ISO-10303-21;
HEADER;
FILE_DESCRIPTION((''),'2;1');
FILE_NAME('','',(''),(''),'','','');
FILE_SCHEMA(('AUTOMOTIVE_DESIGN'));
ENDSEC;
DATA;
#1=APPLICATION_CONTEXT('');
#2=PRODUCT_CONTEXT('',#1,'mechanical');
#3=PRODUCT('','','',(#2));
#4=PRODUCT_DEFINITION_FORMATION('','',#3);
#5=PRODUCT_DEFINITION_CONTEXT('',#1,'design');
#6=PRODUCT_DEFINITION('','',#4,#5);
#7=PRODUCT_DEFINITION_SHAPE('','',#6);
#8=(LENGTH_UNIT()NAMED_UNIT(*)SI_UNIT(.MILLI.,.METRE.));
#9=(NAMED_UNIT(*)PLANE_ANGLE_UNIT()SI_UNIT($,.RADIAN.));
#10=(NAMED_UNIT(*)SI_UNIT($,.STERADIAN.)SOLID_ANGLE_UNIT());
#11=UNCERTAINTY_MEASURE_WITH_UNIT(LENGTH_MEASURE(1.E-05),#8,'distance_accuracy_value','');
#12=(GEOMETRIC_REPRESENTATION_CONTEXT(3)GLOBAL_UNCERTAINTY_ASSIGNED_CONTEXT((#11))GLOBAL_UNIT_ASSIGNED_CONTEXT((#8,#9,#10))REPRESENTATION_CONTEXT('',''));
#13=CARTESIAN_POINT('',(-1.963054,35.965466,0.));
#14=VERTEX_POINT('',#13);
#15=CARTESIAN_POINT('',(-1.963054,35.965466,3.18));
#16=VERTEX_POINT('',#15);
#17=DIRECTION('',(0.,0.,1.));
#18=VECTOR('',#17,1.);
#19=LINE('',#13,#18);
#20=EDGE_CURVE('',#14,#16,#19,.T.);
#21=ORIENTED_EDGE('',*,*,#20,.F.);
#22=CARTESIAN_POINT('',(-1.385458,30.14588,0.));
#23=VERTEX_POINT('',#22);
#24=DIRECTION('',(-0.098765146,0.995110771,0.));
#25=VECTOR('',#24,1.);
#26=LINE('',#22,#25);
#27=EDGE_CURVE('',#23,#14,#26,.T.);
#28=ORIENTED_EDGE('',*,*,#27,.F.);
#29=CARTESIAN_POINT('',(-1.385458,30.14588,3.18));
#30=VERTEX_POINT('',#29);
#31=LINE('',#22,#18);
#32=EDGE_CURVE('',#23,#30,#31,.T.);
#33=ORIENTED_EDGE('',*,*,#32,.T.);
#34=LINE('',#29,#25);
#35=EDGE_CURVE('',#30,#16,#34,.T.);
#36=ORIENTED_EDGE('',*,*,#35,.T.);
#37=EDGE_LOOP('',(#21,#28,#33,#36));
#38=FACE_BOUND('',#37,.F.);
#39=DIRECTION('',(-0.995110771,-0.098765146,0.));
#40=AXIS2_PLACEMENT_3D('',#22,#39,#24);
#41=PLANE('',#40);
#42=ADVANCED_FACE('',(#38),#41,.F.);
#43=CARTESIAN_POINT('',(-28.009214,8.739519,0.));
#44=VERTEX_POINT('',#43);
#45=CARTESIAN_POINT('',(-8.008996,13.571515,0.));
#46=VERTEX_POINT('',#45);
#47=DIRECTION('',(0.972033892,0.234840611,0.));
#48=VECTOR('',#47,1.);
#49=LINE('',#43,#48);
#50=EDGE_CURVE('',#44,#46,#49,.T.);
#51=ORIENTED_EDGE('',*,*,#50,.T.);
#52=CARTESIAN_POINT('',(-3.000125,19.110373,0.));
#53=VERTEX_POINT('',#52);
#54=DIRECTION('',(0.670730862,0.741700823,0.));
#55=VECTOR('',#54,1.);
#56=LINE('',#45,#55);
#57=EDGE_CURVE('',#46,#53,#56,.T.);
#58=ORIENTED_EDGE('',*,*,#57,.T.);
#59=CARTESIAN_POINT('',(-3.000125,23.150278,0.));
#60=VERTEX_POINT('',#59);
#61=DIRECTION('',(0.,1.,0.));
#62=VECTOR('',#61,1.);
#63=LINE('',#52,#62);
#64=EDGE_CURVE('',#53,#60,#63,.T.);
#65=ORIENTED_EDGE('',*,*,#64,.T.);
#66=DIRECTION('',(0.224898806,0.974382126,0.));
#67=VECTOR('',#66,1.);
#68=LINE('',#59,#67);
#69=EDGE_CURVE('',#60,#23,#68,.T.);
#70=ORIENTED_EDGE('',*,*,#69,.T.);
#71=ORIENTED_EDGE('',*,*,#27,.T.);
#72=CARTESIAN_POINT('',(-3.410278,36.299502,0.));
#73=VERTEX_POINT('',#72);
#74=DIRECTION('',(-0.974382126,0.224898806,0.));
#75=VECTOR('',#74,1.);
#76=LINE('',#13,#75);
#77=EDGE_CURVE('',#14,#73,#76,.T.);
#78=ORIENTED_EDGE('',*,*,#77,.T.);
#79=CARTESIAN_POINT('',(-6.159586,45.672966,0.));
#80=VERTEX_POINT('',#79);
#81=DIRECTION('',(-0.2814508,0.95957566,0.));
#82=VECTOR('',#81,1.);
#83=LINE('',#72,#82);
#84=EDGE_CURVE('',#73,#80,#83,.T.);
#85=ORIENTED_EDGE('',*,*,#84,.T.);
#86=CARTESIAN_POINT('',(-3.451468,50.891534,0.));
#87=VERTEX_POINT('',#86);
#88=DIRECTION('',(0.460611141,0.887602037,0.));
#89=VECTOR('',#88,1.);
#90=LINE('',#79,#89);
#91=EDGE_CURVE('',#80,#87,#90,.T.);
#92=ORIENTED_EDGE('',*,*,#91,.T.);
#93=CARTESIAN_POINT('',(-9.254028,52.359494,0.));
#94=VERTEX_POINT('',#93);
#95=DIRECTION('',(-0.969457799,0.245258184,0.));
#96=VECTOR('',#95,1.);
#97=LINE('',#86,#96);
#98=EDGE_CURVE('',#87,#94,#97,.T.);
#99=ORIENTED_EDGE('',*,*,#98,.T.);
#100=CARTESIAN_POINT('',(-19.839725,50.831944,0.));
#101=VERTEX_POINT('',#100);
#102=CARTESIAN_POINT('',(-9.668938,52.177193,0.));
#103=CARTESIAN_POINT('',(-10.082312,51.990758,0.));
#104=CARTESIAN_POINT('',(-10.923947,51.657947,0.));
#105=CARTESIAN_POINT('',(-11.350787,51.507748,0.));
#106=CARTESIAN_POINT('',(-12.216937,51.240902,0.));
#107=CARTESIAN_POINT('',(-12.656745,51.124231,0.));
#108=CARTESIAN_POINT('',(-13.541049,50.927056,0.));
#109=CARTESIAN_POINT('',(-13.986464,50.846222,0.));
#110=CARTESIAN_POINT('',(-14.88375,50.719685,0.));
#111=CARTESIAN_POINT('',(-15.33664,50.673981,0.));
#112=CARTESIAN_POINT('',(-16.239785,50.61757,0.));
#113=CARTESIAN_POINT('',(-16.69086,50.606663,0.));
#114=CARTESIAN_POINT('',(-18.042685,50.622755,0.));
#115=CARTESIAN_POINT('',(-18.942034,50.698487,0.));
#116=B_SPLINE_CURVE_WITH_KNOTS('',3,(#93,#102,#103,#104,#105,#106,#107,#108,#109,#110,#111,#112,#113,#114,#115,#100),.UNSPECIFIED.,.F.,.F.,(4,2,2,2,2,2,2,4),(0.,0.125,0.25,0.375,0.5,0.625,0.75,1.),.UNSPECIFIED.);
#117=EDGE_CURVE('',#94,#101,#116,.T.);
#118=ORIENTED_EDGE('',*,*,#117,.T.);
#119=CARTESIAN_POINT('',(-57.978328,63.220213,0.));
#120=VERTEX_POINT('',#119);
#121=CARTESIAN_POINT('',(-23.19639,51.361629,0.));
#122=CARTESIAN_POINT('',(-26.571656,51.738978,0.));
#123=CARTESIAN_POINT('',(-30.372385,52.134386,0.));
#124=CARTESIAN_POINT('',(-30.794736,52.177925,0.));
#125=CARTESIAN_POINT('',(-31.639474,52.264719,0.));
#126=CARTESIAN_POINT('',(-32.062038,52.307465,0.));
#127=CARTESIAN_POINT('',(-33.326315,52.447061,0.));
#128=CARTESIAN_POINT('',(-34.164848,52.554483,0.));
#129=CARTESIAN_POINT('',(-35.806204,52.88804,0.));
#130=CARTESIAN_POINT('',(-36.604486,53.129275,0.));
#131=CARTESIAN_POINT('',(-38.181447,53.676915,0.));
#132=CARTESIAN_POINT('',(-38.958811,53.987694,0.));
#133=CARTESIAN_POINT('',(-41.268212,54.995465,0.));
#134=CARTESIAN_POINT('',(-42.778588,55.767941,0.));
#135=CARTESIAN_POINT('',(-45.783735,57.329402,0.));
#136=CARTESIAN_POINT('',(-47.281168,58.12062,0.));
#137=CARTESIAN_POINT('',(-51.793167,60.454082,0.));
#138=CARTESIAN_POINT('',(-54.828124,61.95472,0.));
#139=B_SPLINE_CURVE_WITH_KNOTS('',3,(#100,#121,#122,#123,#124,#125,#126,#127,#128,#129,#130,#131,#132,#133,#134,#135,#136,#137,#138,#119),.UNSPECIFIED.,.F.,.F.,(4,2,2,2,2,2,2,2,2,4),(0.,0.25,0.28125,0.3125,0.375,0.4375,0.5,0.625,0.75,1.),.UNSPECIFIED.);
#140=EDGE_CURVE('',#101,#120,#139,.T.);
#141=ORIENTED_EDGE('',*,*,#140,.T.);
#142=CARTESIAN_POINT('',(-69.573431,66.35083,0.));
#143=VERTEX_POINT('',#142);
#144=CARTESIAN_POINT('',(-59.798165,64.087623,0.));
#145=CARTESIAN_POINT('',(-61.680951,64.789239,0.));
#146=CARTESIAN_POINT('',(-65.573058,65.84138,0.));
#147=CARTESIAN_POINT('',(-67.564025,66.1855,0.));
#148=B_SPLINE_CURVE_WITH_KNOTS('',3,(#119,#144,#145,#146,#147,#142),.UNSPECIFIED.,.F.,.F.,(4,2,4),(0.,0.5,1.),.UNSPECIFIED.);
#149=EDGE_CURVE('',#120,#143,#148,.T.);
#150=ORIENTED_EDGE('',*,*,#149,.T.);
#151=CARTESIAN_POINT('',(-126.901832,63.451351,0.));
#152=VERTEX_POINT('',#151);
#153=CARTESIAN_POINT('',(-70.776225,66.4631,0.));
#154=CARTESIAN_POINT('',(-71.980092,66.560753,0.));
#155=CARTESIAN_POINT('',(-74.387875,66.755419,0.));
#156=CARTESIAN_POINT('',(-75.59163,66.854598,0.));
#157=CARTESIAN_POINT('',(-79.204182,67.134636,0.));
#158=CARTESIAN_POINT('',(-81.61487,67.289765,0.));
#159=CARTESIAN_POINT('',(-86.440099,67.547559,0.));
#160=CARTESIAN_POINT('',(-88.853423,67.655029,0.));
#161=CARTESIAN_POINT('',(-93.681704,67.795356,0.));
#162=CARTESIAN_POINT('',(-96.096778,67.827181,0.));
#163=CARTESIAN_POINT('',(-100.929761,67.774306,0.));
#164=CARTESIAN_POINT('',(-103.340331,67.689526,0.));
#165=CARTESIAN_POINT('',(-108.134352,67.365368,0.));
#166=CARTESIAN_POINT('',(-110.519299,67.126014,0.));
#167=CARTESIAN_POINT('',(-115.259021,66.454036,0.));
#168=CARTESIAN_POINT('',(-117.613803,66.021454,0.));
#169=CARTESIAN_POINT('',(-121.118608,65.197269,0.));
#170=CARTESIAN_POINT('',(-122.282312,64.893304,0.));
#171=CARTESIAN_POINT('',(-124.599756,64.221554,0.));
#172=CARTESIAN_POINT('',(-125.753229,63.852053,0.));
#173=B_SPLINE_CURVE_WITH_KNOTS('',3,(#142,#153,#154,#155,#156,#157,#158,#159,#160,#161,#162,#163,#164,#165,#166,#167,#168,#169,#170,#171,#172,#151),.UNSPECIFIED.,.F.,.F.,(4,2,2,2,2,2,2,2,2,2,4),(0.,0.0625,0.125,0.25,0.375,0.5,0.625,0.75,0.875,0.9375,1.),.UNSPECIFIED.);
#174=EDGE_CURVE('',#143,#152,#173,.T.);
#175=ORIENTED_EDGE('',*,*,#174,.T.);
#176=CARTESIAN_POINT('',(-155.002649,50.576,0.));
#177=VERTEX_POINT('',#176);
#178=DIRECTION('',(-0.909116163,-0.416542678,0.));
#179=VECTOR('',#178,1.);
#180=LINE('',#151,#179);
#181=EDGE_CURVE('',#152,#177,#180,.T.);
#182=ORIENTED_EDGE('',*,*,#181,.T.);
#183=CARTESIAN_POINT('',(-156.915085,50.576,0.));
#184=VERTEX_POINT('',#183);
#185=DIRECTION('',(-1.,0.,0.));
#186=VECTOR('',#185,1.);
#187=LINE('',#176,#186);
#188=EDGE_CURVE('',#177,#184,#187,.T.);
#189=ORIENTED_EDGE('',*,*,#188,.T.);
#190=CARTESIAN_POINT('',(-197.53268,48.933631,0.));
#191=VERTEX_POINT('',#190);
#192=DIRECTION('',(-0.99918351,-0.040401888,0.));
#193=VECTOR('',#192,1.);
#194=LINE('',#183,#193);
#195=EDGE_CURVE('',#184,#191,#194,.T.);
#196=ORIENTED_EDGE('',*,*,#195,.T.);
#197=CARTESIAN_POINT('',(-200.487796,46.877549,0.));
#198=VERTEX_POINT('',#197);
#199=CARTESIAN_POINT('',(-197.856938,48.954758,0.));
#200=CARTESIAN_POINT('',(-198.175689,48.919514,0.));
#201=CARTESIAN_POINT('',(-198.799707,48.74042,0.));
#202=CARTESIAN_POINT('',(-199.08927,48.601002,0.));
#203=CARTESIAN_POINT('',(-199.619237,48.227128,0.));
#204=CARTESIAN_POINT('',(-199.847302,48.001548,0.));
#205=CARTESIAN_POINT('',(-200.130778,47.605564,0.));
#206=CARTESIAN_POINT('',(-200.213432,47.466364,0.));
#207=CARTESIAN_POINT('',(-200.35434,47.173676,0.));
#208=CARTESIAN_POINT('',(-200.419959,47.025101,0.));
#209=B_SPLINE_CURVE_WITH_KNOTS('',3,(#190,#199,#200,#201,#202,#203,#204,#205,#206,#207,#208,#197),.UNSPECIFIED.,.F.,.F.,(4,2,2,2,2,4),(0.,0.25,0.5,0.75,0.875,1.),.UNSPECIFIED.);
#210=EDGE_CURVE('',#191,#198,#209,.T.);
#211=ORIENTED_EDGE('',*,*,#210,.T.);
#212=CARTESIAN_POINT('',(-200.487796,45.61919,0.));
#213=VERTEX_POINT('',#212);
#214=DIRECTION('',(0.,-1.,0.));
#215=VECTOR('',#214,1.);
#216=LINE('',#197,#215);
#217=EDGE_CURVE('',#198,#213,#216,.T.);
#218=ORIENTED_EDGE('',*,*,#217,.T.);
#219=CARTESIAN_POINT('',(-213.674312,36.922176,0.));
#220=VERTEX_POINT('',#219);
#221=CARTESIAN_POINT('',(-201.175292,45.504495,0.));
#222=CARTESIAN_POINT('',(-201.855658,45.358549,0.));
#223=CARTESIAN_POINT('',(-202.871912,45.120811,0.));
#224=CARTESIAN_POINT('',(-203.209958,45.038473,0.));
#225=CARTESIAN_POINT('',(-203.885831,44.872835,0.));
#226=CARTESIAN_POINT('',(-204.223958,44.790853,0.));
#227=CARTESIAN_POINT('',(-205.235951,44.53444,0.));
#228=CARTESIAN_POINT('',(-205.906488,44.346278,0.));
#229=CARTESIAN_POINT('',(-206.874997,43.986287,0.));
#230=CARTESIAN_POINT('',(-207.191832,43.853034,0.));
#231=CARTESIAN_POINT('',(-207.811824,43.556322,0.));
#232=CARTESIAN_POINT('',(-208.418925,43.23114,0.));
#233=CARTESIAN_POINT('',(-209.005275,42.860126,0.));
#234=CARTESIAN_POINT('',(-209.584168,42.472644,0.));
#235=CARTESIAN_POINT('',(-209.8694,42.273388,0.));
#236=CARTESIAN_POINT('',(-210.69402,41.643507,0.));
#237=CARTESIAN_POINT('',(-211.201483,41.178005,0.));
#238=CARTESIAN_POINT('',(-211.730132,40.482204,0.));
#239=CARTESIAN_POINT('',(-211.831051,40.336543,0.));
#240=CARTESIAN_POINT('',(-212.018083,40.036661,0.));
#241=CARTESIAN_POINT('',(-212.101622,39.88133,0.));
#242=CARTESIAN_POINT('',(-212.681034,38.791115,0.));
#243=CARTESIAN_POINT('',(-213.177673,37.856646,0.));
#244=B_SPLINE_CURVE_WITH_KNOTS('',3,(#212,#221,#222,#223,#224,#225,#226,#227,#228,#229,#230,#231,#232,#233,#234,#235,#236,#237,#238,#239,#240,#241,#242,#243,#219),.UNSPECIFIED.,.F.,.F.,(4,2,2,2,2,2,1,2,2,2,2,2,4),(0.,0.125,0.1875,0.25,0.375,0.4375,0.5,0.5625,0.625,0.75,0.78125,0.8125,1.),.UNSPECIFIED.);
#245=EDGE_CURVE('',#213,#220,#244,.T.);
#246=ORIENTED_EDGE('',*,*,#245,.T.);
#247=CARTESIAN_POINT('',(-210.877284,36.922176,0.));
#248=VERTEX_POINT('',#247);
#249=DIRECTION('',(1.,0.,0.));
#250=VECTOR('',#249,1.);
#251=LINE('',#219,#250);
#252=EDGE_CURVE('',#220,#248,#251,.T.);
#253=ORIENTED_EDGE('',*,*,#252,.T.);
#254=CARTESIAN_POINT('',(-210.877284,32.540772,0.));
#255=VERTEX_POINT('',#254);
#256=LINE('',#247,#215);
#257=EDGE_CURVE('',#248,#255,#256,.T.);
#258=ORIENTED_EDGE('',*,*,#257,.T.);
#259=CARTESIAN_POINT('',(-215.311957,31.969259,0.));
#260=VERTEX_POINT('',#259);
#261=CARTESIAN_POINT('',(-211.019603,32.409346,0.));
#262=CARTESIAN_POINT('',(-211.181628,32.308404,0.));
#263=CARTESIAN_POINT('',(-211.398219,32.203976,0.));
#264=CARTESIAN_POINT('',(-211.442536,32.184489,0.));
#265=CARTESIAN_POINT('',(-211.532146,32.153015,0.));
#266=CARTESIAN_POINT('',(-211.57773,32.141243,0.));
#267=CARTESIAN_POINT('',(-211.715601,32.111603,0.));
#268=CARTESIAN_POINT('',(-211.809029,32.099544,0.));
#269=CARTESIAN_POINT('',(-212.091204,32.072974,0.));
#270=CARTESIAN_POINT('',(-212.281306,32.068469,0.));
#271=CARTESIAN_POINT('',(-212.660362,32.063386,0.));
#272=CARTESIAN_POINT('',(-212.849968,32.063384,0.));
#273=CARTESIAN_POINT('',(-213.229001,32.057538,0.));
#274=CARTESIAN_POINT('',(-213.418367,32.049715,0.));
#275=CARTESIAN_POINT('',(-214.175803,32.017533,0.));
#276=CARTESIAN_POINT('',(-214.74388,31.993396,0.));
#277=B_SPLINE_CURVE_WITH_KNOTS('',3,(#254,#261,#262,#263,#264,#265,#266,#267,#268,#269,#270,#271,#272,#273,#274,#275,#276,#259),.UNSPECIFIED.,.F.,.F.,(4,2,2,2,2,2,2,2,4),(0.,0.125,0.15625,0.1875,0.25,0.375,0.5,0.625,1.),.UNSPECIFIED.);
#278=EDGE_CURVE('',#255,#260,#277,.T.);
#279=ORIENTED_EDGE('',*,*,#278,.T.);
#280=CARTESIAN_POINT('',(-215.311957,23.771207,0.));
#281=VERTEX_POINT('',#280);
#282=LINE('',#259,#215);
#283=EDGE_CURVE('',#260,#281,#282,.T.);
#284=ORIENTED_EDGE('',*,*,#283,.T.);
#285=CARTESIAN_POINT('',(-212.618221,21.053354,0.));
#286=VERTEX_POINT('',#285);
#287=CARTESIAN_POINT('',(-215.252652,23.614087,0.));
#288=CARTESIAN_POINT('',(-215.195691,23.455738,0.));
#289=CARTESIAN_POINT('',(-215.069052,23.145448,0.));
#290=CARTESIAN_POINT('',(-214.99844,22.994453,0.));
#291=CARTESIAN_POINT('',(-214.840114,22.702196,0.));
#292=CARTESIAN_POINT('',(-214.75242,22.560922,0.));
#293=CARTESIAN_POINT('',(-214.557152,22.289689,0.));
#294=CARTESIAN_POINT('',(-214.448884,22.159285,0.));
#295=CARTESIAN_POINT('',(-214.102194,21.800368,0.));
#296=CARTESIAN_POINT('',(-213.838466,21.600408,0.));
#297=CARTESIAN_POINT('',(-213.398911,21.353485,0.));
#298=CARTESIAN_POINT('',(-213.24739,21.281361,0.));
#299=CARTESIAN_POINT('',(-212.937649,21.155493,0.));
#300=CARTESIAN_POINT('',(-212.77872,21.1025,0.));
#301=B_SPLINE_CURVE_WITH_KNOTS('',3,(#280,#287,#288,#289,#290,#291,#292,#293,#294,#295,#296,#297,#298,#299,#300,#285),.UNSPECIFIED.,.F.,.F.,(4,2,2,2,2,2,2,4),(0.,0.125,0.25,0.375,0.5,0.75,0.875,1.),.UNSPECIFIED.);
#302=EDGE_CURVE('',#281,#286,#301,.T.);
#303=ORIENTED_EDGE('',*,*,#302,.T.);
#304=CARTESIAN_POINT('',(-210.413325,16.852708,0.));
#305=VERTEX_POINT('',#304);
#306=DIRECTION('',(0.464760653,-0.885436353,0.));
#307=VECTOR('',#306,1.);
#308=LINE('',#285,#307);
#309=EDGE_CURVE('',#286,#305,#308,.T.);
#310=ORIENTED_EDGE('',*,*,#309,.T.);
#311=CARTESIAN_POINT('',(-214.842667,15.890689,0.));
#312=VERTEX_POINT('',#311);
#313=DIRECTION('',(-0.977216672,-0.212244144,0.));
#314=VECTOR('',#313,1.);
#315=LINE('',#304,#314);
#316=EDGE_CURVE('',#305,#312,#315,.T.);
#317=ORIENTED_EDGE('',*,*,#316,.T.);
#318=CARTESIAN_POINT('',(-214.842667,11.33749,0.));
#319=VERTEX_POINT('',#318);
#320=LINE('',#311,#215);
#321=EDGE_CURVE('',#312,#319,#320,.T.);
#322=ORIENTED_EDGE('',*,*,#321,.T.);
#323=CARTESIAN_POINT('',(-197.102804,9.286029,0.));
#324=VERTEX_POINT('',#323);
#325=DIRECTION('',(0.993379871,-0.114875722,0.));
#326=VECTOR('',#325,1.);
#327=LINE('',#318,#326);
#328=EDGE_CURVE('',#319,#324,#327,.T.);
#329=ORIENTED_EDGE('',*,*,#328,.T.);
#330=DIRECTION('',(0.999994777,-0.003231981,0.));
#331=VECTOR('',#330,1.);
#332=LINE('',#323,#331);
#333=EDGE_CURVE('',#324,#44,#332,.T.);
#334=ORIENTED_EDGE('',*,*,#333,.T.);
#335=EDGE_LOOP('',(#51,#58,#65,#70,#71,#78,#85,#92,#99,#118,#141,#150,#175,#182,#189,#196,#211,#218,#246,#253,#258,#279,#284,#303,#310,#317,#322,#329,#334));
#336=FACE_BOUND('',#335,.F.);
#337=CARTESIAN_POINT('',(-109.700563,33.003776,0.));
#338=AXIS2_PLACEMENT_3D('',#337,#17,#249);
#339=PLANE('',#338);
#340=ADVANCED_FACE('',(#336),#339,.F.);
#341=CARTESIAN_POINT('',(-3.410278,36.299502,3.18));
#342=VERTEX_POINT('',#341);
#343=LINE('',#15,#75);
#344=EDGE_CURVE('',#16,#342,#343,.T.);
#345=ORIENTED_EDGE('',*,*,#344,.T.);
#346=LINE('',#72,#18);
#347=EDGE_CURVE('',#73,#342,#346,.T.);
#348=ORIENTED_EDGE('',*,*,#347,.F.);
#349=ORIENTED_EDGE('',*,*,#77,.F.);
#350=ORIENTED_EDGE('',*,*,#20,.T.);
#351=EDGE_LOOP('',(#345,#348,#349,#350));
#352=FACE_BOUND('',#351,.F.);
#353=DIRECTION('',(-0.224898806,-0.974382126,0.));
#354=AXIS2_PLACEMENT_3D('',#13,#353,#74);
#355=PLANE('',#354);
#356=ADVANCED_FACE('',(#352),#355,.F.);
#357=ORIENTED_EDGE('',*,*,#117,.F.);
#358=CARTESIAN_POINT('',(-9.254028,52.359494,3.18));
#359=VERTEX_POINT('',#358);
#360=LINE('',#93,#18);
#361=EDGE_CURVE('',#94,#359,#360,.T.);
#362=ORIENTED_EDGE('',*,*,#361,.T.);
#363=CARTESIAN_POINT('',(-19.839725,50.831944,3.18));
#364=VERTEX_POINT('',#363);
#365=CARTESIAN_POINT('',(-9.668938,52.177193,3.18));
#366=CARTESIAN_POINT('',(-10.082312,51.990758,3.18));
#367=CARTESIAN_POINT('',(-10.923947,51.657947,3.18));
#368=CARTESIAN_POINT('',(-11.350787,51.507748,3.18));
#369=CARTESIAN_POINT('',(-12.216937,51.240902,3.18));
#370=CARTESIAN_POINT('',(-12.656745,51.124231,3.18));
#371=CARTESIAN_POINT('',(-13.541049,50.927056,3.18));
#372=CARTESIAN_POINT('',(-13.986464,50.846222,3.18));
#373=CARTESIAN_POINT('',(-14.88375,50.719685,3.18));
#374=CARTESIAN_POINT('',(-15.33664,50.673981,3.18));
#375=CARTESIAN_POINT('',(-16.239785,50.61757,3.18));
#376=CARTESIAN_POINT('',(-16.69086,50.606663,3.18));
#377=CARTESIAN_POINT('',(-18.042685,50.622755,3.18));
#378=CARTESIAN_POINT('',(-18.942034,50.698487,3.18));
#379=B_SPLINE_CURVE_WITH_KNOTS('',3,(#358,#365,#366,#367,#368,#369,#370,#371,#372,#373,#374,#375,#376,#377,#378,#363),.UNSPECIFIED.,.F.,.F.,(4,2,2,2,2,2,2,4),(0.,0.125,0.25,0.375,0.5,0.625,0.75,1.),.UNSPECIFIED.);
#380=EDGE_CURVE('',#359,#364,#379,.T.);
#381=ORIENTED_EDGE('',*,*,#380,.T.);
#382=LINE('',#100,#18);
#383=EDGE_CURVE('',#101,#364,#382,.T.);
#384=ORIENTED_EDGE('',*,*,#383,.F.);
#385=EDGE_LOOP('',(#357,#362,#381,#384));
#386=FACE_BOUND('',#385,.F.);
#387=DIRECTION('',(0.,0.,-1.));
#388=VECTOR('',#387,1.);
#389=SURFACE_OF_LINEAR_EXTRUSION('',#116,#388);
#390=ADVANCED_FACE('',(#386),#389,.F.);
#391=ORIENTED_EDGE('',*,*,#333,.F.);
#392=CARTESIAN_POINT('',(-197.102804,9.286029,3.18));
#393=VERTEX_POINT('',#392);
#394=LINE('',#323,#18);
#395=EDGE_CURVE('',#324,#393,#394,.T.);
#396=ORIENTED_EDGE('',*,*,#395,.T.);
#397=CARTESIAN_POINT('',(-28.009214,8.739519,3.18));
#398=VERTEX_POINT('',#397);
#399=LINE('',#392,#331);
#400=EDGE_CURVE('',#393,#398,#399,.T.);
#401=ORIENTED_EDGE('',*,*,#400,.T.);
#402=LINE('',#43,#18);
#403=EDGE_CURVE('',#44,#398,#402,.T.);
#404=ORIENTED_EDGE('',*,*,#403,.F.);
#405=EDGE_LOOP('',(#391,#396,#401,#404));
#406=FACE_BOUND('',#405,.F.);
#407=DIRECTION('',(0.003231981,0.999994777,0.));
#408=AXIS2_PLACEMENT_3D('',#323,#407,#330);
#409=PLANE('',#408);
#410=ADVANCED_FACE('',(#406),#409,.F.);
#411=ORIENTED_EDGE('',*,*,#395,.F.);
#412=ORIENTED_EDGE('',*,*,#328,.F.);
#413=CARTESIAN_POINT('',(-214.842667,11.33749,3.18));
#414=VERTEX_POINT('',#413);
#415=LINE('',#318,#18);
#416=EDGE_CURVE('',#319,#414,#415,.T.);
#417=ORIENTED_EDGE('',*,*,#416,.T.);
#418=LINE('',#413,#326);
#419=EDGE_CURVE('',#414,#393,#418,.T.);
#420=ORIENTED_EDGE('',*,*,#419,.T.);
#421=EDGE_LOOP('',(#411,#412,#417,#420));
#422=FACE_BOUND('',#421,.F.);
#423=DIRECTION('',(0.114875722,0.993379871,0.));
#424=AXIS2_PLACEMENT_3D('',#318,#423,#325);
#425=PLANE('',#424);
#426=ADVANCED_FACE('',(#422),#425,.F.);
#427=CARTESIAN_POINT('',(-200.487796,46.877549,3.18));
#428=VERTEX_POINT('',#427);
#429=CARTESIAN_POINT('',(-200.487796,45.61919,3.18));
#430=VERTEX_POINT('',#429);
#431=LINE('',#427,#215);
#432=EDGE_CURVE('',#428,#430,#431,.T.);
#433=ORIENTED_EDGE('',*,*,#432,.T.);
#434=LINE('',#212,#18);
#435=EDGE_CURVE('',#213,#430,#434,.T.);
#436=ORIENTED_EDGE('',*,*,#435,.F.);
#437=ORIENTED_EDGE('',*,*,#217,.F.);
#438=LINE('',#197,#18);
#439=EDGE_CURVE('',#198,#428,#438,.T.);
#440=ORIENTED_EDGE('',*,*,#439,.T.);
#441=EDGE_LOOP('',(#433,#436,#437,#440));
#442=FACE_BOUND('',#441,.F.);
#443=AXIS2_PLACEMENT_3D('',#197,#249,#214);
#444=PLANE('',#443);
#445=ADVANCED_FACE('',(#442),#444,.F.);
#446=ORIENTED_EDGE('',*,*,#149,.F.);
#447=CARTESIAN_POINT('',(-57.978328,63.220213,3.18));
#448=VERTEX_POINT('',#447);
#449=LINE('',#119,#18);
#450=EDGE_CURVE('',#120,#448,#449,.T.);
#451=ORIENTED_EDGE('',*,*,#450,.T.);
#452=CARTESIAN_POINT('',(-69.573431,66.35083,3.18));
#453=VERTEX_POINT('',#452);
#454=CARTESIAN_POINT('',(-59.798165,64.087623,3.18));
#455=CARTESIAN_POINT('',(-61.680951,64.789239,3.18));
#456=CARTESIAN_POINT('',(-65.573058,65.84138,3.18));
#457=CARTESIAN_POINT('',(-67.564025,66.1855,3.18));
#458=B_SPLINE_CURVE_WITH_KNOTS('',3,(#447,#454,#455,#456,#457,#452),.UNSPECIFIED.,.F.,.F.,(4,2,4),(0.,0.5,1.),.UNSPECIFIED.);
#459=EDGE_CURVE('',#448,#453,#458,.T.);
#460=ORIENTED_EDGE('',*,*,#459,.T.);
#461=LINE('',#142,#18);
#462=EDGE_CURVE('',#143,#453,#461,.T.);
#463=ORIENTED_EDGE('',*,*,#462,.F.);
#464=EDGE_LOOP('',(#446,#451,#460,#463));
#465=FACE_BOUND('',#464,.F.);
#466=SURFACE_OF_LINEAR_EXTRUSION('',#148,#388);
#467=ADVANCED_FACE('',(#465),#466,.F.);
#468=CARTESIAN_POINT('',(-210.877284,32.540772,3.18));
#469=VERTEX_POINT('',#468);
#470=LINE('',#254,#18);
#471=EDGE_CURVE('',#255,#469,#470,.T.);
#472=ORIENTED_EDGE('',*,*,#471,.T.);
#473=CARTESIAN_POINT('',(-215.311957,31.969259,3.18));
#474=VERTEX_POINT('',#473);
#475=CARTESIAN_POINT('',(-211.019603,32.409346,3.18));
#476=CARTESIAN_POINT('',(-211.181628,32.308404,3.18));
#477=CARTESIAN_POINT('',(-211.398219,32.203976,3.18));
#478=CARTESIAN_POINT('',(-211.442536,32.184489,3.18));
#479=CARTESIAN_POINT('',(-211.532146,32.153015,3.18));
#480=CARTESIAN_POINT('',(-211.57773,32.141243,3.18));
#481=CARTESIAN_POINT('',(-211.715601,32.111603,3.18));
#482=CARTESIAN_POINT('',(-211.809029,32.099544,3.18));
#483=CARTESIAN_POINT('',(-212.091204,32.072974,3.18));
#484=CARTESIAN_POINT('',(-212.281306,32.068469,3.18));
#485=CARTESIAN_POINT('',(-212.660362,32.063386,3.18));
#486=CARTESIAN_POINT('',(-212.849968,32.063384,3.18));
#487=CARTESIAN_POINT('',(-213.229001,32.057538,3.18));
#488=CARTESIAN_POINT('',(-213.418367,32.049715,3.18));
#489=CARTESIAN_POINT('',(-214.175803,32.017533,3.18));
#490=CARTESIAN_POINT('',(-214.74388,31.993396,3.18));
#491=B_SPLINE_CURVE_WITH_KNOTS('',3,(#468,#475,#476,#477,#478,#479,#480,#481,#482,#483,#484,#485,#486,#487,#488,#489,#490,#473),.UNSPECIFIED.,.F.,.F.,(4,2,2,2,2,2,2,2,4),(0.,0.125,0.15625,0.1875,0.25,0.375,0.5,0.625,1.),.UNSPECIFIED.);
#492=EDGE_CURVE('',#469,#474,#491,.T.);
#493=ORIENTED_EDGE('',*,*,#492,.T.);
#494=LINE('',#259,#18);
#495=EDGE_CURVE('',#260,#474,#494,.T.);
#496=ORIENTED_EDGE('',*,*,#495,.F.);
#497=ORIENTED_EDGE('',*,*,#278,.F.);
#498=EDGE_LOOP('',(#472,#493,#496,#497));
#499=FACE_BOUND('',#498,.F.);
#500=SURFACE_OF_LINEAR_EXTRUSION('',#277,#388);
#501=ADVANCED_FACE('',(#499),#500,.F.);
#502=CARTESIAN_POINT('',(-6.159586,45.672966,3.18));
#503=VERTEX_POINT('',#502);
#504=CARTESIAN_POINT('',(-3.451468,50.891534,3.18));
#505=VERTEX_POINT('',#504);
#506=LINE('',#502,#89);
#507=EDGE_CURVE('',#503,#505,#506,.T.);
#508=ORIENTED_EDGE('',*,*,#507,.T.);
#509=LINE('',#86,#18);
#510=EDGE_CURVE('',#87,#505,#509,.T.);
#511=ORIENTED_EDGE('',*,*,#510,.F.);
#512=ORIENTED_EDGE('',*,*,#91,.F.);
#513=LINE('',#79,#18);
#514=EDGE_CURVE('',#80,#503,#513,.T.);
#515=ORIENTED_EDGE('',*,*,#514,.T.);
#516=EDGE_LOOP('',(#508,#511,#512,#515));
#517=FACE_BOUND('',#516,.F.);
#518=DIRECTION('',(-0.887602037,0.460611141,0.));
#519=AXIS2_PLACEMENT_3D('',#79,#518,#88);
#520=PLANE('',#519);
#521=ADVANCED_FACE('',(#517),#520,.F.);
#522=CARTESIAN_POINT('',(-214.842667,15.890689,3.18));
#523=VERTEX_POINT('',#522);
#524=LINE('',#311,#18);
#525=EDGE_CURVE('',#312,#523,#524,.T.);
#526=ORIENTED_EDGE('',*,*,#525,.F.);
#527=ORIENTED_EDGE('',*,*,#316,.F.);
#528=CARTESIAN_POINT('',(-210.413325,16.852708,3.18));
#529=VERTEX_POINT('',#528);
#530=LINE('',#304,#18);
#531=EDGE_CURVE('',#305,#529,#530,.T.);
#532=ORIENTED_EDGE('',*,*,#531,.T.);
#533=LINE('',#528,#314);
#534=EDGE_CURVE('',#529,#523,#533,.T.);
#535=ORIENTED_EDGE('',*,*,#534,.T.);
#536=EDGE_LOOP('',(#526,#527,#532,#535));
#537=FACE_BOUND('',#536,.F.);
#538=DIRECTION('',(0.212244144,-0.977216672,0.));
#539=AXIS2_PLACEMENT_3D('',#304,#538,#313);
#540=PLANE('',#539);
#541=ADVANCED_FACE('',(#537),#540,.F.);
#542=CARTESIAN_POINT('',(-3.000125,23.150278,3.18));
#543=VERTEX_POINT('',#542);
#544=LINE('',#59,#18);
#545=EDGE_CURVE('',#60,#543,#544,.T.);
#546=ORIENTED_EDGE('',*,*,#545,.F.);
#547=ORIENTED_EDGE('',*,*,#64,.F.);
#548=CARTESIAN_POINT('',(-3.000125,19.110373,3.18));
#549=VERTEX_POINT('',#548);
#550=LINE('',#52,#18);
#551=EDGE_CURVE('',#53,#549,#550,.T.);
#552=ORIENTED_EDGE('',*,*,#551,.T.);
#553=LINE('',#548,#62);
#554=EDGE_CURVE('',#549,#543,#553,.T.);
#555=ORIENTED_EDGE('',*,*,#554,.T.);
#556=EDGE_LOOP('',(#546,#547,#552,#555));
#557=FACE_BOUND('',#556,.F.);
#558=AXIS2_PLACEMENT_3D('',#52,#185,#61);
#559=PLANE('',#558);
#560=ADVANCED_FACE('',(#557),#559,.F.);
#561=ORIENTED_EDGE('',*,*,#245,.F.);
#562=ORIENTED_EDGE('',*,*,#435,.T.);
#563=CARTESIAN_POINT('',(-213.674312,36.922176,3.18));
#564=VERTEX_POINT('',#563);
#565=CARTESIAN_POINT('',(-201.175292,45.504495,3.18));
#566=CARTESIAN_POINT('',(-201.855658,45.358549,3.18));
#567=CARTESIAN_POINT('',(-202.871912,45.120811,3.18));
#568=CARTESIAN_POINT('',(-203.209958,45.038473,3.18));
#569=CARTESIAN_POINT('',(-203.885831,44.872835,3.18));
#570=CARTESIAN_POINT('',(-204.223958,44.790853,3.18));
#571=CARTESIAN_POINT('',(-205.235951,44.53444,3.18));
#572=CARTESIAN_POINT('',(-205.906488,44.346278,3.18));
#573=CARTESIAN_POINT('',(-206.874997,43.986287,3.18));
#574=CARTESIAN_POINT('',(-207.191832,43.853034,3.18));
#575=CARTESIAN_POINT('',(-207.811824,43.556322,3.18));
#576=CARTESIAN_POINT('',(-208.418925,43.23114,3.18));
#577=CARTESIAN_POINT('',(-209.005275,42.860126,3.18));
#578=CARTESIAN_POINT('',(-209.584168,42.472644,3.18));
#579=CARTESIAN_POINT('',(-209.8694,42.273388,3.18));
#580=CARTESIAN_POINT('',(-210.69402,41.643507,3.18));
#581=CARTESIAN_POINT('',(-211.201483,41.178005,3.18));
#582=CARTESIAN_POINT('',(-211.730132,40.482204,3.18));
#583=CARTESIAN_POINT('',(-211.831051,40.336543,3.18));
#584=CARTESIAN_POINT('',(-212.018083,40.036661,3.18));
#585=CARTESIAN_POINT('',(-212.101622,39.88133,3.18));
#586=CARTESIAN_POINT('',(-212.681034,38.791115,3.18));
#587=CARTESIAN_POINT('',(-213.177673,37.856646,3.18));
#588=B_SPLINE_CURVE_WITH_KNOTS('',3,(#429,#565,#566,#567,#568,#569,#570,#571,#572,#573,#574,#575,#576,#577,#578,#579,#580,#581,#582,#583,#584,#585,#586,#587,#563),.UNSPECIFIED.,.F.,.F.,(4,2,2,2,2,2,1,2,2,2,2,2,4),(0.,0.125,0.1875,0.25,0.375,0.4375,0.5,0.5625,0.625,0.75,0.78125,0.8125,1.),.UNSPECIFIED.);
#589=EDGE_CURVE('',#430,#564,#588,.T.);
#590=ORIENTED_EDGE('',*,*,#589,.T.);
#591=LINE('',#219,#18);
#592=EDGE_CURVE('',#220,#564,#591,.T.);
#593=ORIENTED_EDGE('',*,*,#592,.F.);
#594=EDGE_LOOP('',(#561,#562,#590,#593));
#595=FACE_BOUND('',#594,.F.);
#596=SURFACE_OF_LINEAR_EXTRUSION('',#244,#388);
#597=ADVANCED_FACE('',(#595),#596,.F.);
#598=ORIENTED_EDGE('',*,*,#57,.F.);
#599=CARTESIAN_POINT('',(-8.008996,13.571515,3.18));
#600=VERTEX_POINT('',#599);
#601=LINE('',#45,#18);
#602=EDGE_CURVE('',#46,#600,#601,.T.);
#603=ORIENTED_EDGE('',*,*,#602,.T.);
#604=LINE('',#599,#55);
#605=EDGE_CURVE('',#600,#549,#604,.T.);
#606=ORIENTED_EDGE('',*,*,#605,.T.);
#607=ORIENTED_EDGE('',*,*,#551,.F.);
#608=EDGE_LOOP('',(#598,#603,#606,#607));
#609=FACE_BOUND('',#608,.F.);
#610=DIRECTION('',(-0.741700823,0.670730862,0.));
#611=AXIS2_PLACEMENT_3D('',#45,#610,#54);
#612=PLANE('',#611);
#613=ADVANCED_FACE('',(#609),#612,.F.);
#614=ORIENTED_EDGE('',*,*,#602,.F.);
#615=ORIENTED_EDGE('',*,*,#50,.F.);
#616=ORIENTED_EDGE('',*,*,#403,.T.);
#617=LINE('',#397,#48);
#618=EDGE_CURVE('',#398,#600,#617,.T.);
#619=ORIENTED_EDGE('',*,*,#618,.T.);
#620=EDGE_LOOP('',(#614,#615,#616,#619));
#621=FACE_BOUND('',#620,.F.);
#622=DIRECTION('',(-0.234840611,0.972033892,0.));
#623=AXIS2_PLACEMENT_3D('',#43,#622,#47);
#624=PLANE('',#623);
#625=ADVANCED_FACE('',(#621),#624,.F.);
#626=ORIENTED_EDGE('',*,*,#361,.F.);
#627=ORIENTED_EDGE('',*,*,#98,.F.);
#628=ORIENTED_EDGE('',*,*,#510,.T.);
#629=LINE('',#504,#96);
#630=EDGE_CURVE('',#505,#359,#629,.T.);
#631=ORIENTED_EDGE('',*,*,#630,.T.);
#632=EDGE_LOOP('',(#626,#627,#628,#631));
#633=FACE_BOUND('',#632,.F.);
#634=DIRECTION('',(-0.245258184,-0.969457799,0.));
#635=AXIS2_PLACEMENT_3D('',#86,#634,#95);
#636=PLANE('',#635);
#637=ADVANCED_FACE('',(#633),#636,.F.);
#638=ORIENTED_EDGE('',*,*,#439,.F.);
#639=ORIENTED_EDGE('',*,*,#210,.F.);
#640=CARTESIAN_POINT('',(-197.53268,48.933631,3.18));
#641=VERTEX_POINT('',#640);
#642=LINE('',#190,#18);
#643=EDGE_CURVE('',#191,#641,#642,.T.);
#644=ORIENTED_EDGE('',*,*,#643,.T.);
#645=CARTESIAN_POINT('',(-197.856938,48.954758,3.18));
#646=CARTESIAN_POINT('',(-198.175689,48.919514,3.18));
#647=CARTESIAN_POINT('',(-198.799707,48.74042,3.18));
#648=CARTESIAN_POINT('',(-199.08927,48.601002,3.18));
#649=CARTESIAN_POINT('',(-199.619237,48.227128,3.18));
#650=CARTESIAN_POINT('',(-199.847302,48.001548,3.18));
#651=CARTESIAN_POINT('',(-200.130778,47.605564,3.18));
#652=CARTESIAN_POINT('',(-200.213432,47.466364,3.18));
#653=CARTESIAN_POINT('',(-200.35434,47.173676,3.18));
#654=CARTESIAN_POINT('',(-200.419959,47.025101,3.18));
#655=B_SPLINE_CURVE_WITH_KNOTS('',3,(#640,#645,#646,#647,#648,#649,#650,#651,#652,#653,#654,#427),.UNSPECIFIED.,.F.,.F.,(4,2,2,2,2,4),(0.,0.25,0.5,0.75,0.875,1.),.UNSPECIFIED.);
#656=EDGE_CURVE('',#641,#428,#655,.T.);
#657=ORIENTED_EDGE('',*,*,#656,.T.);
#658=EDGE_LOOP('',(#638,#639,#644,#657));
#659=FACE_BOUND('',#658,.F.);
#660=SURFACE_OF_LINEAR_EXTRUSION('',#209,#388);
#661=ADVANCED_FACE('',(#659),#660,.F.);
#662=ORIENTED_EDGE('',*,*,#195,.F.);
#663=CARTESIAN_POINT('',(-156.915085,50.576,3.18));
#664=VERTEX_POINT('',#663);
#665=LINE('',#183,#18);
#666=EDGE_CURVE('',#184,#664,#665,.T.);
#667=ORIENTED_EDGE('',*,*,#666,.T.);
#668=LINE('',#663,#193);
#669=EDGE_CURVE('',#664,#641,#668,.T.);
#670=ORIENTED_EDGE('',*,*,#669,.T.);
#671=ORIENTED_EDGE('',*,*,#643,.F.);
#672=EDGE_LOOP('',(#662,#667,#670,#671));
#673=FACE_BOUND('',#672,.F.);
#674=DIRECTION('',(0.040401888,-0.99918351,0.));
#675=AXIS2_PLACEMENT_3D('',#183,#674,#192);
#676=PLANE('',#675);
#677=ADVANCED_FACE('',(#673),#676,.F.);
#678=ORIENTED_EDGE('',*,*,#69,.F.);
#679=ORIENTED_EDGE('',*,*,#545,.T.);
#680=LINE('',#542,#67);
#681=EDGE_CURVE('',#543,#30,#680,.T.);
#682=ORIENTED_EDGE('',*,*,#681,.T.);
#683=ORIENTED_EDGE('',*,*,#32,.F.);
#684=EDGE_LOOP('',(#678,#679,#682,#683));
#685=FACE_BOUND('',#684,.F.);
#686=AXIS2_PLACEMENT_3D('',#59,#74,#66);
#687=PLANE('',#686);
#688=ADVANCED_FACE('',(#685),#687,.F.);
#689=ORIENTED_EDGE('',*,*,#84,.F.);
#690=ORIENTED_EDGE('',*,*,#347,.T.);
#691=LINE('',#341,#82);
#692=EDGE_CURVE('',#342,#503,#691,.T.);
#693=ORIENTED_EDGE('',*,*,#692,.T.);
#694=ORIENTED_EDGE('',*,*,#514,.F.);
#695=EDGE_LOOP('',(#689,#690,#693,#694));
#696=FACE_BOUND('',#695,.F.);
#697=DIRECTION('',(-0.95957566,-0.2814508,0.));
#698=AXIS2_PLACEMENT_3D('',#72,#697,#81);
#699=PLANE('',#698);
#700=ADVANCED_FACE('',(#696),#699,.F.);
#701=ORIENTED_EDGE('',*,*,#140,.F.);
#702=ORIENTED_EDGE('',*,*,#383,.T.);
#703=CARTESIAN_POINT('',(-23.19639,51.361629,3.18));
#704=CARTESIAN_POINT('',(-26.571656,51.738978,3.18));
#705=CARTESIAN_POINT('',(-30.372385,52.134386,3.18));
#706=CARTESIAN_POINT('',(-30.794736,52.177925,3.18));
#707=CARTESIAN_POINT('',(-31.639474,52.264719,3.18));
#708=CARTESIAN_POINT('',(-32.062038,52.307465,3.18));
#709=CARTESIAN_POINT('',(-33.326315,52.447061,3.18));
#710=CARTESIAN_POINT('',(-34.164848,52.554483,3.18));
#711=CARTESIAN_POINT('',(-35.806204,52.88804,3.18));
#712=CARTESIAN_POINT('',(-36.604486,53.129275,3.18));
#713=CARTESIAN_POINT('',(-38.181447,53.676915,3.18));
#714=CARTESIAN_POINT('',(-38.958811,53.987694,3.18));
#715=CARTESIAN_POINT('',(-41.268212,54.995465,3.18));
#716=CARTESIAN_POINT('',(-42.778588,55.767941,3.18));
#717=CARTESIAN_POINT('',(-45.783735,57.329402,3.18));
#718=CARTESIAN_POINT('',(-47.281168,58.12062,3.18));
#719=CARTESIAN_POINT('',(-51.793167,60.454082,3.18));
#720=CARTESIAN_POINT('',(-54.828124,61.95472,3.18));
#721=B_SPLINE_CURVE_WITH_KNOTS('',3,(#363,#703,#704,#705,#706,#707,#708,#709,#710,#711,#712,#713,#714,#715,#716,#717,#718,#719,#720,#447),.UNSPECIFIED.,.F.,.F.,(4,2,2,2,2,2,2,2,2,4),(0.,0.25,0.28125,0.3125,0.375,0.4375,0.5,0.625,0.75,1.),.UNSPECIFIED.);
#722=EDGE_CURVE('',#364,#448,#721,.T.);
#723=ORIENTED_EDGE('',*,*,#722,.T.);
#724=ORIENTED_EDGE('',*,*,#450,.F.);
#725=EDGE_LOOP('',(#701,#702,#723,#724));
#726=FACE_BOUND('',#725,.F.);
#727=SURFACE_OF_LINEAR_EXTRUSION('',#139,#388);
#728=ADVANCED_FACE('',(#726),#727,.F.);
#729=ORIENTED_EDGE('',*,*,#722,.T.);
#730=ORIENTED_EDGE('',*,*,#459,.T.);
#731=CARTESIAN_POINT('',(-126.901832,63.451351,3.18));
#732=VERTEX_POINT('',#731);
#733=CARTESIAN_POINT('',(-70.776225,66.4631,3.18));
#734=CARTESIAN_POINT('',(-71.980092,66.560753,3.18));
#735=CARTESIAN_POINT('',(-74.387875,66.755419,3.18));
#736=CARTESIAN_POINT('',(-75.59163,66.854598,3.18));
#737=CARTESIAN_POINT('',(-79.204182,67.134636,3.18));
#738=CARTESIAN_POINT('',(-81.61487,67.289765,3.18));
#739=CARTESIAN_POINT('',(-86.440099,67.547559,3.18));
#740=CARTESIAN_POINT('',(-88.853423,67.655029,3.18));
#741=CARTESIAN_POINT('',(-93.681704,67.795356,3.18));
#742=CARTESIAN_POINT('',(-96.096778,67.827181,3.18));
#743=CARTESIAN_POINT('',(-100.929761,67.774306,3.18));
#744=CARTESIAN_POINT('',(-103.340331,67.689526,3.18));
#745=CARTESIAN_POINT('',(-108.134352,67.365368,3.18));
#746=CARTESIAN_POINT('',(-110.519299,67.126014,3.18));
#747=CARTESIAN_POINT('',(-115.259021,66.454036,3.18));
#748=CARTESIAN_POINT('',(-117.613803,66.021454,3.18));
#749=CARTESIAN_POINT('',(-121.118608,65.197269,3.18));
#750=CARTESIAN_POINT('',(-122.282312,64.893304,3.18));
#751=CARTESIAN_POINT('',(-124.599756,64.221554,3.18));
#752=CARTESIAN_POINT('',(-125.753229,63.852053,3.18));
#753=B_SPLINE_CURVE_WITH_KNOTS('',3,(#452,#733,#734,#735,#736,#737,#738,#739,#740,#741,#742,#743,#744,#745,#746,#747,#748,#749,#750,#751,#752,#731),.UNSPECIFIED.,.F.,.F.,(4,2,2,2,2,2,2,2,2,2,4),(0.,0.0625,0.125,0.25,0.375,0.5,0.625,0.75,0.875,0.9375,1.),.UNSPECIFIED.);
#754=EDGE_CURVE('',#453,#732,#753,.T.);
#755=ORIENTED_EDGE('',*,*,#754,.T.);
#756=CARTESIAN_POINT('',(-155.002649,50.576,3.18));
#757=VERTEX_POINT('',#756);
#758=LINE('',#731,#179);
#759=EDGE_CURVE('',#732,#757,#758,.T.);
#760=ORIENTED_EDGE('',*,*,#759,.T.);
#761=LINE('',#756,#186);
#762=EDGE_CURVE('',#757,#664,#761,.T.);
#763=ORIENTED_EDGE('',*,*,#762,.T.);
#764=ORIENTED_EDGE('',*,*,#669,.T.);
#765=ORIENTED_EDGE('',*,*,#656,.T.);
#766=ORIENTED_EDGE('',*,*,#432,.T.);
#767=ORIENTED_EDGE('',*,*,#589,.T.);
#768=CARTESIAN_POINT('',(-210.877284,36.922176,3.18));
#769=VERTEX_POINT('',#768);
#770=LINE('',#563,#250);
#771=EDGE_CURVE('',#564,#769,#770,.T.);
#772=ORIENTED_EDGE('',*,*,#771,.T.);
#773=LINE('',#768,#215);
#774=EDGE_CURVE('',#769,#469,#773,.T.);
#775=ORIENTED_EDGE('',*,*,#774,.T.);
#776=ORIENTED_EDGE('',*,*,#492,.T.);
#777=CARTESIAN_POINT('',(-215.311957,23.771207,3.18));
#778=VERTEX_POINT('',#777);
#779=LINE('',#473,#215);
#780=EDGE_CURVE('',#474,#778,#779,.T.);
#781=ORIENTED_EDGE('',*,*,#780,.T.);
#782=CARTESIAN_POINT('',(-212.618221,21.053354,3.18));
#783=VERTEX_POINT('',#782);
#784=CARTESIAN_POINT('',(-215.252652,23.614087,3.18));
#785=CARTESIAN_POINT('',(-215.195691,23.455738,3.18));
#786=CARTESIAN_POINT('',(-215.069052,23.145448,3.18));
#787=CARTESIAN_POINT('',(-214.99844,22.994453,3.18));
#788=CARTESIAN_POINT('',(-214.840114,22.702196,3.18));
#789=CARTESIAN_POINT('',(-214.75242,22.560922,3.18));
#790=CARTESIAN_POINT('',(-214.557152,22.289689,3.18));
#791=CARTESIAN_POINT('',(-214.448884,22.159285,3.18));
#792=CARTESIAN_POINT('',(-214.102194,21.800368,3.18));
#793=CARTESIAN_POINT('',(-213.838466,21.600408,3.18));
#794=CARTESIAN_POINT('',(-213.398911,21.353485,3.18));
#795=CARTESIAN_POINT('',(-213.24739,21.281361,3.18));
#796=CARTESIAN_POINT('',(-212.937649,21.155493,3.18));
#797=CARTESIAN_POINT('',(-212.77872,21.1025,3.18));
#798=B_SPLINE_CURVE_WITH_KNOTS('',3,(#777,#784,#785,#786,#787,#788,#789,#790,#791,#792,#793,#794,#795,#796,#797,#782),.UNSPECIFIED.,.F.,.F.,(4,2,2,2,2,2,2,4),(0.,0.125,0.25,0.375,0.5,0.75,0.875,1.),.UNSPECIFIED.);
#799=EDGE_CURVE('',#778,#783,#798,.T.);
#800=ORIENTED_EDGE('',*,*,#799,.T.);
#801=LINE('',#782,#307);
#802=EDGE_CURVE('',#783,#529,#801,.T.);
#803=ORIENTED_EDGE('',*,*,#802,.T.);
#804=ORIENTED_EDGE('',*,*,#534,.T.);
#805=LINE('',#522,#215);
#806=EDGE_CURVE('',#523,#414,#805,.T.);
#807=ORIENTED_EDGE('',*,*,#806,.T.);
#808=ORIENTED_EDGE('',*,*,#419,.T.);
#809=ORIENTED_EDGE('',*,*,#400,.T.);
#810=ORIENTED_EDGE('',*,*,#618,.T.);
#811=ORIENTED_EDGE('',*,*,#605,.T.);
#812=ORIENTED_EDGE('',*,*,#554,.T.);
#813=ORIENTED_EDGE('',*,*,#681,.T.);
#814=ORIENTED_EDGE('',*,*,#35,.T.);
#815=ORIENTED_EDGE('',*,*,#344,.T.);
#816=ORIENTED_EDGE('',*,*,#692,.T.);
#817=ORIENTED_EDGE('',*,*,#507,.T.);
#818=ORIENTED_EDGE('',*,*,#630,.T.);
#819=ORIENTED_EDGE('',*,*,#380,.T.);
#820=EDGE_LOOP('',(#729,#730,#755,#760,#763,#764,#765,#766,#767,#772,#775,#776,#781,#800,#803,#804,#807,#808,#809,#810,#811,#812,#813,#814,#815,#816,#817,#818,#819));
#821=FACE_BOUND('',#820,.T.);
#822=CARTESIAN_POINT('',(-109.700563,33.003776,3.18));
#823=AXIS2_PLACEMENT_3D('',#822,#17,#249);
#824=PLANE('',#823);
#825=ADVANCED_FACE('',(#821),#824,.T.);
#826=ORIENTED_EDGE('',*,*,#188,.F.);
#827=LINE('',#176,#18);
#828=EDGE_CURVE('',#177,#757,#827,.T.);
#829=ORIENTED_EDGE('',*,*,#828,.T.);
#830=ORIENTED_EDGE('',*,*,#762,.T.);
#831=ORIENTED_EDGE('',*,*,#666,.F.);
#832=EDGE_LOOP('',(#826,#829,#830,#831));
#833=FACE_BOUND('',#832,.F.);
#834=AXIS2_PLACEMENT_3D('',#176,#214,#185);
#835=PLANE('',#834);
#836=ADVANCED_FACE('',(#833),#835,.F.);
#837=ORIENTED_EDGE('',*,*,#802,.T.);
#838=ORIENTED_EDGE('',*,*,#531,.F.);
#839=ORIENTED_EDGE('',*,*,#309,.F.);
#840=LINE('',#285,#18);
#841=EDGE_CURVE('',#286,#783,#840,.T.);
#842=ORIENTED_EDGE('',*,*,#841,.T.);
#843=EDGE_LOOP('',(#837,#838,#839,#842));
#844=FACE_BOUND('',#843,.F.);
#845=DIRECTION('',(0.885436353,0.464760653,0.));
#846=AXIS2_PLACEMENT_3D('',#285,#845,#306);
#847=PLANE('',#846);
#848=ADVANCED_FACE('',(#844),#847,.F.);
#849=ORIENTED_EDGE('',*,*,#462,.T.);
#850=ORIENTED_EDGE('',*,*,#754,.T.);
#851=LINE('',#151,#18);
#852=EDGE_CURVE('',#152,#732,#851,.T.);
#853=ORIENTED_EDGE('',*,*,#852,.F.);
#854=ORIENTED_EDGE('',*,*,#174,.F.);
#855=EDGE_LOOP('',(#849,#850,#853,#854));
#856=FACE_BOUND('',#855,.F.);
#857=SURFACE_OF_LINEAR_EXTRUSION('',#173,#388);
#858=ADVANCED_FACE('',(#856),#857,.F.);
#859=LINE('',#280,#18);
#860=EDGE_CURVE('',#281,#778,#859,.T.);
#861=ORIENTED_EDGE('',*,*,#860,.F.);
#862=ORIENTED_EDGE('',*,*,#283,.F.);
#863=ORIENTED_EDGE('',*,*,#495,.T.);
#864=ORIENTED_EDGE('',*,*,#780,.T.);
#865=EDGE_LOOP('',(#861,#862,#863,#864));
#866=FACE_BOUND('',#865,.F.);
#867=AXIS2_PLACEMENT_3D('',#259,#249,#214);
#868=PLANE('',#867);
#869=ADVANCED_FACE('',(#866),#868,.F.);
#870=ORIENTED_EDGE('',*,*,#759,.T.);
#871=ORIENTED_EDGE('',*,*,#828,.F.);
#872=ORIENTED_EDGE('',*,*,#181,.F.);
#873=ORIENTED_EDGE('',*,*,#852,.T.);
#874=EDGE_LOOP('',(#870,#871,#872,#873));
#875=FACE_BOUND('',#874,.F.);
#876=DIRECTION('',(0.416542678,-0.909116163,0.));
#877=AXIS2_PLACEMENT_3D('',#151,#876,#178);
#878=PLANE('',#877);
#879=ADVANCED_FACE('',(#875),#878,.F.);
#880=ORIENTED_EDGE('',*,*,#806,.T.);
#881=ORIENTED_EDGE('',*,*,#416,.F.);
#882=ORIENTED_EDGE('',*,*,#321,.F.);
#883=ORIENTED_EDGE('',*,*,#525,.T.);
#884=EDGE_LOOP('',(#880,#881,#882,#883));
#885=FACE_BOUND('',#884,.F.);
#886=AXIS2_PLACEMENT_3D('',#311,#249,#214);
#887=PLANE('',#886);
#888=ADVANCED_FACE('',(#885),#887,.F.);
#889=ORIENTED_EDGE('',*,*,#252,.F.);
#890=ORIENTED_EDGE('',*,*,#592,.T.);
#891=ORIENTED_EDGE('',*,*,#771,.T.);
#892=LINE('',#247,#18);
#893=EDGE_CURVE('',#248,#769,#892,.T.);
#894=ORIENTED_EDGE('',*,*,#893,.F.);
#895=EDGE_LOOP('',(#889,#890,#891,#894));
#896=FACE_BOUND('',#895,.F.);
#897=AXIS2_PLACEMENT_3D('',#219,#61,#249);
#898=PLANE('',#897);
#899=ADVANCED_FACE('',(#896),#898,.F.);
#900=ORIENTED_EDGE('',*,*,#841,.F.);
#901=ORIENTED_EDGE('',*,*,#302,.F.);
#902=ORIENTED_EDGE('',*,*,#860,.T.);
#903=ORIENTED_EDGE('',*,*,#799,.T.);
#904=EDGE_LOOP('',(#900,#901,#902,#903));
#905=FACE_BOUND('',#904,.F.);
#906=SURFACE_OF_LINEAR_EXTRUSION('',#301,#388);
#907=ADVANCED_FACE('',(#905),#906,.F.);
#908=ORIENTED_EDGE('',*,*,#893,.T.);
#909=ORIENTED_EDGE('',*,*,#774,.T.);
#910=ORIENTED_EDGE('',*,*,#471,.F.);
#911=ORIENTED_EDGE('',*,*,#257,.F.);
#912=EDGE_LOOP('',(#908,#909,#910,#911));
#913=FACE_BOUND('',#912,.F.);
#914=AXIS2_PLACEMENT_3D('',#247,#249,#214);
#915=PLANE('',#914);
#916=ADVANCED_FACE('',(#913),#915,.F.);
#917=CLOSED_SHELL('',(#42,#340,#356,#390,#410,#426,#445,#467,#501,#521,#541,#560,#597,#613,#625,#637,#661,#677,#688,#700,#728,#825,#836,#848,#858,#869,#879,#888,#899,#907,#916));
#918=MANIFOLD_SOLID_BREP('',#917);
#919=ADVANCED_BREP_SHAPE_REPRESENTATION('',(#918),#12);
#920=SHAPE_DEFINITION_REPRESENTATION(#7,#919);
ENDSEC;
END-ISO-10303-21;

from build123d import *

# Parameters (mm, degrees)
BOSS_EXTRUDE1_DEPTH = 3.18


with BuildPart() as part:
    # Sketch1 → Boss-Extrude1 (new body)
    with BuildSketch(Plane.XY):
        with BuildLine():
            Line((-126.90183157, 63.451351123), (-155.002649134, 50.576))
            Line((-155.002649134, 50.576), (-156.915085055, 50.576))
            Line((-156.915085055, 50.576), (-197.532680285, 48.933631486))
            add(Edge.make_bspline(
                [(-197.532680285, 48.933631486), (-197.856938216, 48.954758252), (-198.175689042, 48.919514289), (-198.799707333, 48.740420096), (-199.089269759, 48.60100182), (-199.619237435, 48.22712778), (-199.847302364, 48.001548224), (-200.130777612, 47.605564254), (-200.213431577, 47.466364131), (-200.354340024, 47.173676097), (-200.419958888, 47.025100819), (-200.487796099, 46.87754919)],
                knots=[0, 0, 0, 0, 0.25, 0.25, 0.5, 0.5, 0.75, 0.75, 0.875, 0.875, 1, 1, 1, 1], degree=3))
            Line((-200.487796099, 46.87754919), (-200.487796099, 45.619190287))
            add(Edge.make_bspline(
                [(-200.487796099, 45.619190287), (-201.175292403, 45.504495406), (-201.855658011, 45.358549214), (-202.871912486, 45.120811128), (-203.209958375, 45.038472689), (-203.885830998, 44.872835338), (-204.223958167, 44.790853124), (-205.235951458, 44.534439775), (-205.906487656, 44.346277621), (-206.874996959, 43.986286634), (-207.191831701, 43.853034452), (-207.811823525, 43.556321951), (-208.418924997, 43.231140141), (-209.00527456, 42.860126187), (-209.584167639, 42.472644028), (-209.869399807, 42.273387637), (-210.694020174, 41.643506759), (-211.201483238, 41.178004532), (-211.73013182, 40.482204306), (-211.831050549, 40.336542937), (-212.018083165, 40.036660904), (-212.101621784, 39.881329534), (-212.681033882, 38.791115208), (-213.177672823, 37.856645785), (-213.674311764, 36.922176363)],
                knots=[0, 0, 0, 0, 0.125, 0.125, 0.1875, 0.1875, 0.25, 0.25, 0.375, 0.375, 0.4375, 0.4375, 0.5, 0.5625, 0.5625, 0.625, 0.625, 0.75, 0.75, 0.78125, 0.78125, 0.8125, 0.8125, 1, 1, 1, 1], degree=3))
            Line((-213.674311764, 36.922176363), (-210.877284017, 36.922176363))
            Line((-210.877284017, 36.922176363), (-210.877284017, 32.540772436))
            add(Edge.make_bspline(
                [(-210.877284017, 32.540772436), (-211.01960291, 32.409346329), (-211.181627568, 32.308403793), (-211.398218963, 32.203976442), (-211.442536276, 32.184489252), (-211.532145699, 32.153014843), (-211.577730345, 32.141242749), (-211.715600825, 32.111602843), (-211.80902927, 32.099543954), (-212.09120418, 32.072973702), (-212.281306192, 32.068469044), (-212.660362358, 32.06338607), (-212.849968469, 32.063384257), (-213.229001172, 32.057537609), (-213.418366995, 32.04971484), (-214.175802907, 32.017532543), (-214.743879841, 31.99339582), (-215.311956775, 31.969259097)],
                knots=[0, 0, 0, 0, 0.125, 0.125, 0.15625, 0.15625, 0.1875, 0.1875, 0.25, 0.25, 0.375, 0.375, 0.5, 0.5, 0.625, 0.625, 1, 1, 1, 1], degree=3))
            Line((-215.311956775, 31.969259097), (-215.311956775, 23.771206966))
            add(Edge.make_bspline(
                [(-215.311956775, 23.771206966), (-215.252651766, 23.614087197), (-215.195691348, 23.455737729), (-215.069051829, 23.145447933), (-214.998440356, 22.994452742), (-214.840114463, 22.702195632), (-214.75241985, 22.56092244), (-214.557151858, 22.289689045), (-214.448883791, 22.159284686), (-214.102194357, 21.800368316), (-213.838466215, 21.600407707), (-213.3989114, 21.353484525), (-213.247390183, 21.281360686), (-212.937649457, 21.155492936), (-212.778720347, 21.102500321), (-212.618220712, 21.053354457)],
                knots=[0, 0, 0, 0, 0.125, 0.125, 0.25, 0.25, 0.375, 0.375, 0.5, 0.5, 0.75, 0.75, 0.875, 0.875, 1, 1, 1, 1], degree=3))
            Line((-212.618220712, 21.053354457), (-210.413324841, 16.852708496))
            Line((-210.413324841, 16.852708496), (-214.842666667, 15.890688618))
            Line((-214.842666667, 15.890688618), (-214.842666667, 11.337489634))
            Line((-214.842666667, 11.337489634), (-197.102804327, 9.286029209))
            Line((-197.102804327, 9.286029209), (-28.009214442, 8.739519054))
            Line((-28.009214442, 8.739519054), (-8.008995649, 13.571514777))
            Line((-8.008995649, 13.571514777), (-3.000125196, 19.110373285))
            Line((-3.000125196, 19.110373285), (-3.000125196, 23.150277734))
            Line((-3.000125196, 23.150277734), (-1.385458215, 30.1458802))
            Line((-1.385458215, 30.1458802), (-1.963054434, 35.965465751))
            Line((-1.963054434, 35.965465751), (-3.410277854, 36.299501866))
            Line((-3.410277854, 36.299501866), (-6.15958565, 45.672965506))
            Line((-6.15958565, 45.672965506), (-3.451467886, 50.891534117))
            Line((-3.451467886, 50.891534117), (-9.2540276, 52.359494102))
            add(Edge.make_bspline(
                [(-9.2540276, 52.359494102), (-9.668938039, 52.177193353), (-10.082311797, 51.990757567), (-10.923946882, 51.657946755), (-11.350787182, 51.507747905), (-12.21693651, 51.240902135), (-12.656745199, 51.124231149), (-13.541049299, 50.927055953), (-13.986464066, 50.846222), (-14.883749808, 50.719684722), (-15.336640435, 50.673980514), (-16.239784909, 50.617569956), (-16.690860317, 50.606663408), (-18.042684657, 50.622754962), (-18.942033937, 50.698486568), (-19.839725309, 50.831943658)],
                knots=[0, 0, 0, 0, 0.125, 0.125, 0.25, 0.25, 0.375, 0.375, 0.5, 0.5, 0.625, 0.625, 0.75, 0.75, 1, 1, 1, 1], degree=3))
            add(Edge.make_bspline(
                [(-19.839725309, 50.831943658), (-23.196389637, 51.361628621), (-26.571655772, 51.738977688), (-30.372384718, 52.134386137), (-30.794736233, 52.177924879), (-31.639473894, 52.264718753), (-32.062038009, 52.307465354), (-33.326315143, 52.447060744), (-34.164847593, 52.554482825), (-35.806204141, 52.888039932), (-36.604486091, 53.1292754), (-38.181447383, 53.676915497), (-38.958811115, 53.987693889), (-41.268211651, 54.995464511), (-42.778587948, 55.7679407), (-45.783734721, 57.329402218), (-47.281168214, 58.120620227), (-51.793167154, 60.454082238), (-54.828124104, 61.954720164), (-57.978327556, 63.220213351)],
                knots=[0, 0, 0, 0, 0.25, 0.25, 0.28125, 0.28125, 0.3125, 0.3125, 0.375, 0.375, 0.4375, 0.4375, 0.5, 0.5, 0.625, 0.625, 0.75, 0.75, 1, 1, 1, 1], degree=3))
            add(Edge.make_bspline(
                [(-57.978327556, 63.220213351), (-59.798164817, 64.087622794), (-61.68095051, 64.789239178), (-65.573057504, 65.841379817), (-67.564024776, 66.185499955), (-69.57343092, 66.350830453)],
                knots=[0, 0, 0, 0, 0.5, 0.5, 1, 1, 1, 1], degree=3))
            add(Edge.make_bspline(
                [(-69.57343092, 66.350830453), (-70.776224616, 66.4631), (-71.980092265, 66.560752996), (-74.387874583, 66.755419067), (-75.591630106, 66.854598111), (-79.20418242, 67.134636215), (-81.61486975, 67.289764959), (-86.440099172, 67.547559017), (-88.853422865, 67.655029171), (-93.681704146, 67.795356063), (-96.096777782, 67.827180782), (-100.929760736, 67.774306212), (-103.340330508, 67.689526026), (-108.134351858, 67.365368434), (-110.519298799, 67.12601353), (-115.259021268, 66.454036055), (-117.613803047, 66.021453535), (-121.118607544, 65.197268693), (-122.282311533, 64.893303875), (-124.599756422, 64.221554126), (-125.753229336, 63.852052568), (-126.90183157, 63.451351123)],
                knots=[0, 0, 0, 0, 0.0625, 0.0625, 0.125, 0.125, 0.25, 0.25, 0.375, 0.375, 0.5, 0.5, 0.625, 0.625, 0.75, 0.75, 0.875, 0.875, 0.9375, 0.9375, 1, 1, 1, 1], degree=3))
        make_face()
    extrude(amount=BOSS_EXTRUDE1_DEPTH)


solid = part.part
